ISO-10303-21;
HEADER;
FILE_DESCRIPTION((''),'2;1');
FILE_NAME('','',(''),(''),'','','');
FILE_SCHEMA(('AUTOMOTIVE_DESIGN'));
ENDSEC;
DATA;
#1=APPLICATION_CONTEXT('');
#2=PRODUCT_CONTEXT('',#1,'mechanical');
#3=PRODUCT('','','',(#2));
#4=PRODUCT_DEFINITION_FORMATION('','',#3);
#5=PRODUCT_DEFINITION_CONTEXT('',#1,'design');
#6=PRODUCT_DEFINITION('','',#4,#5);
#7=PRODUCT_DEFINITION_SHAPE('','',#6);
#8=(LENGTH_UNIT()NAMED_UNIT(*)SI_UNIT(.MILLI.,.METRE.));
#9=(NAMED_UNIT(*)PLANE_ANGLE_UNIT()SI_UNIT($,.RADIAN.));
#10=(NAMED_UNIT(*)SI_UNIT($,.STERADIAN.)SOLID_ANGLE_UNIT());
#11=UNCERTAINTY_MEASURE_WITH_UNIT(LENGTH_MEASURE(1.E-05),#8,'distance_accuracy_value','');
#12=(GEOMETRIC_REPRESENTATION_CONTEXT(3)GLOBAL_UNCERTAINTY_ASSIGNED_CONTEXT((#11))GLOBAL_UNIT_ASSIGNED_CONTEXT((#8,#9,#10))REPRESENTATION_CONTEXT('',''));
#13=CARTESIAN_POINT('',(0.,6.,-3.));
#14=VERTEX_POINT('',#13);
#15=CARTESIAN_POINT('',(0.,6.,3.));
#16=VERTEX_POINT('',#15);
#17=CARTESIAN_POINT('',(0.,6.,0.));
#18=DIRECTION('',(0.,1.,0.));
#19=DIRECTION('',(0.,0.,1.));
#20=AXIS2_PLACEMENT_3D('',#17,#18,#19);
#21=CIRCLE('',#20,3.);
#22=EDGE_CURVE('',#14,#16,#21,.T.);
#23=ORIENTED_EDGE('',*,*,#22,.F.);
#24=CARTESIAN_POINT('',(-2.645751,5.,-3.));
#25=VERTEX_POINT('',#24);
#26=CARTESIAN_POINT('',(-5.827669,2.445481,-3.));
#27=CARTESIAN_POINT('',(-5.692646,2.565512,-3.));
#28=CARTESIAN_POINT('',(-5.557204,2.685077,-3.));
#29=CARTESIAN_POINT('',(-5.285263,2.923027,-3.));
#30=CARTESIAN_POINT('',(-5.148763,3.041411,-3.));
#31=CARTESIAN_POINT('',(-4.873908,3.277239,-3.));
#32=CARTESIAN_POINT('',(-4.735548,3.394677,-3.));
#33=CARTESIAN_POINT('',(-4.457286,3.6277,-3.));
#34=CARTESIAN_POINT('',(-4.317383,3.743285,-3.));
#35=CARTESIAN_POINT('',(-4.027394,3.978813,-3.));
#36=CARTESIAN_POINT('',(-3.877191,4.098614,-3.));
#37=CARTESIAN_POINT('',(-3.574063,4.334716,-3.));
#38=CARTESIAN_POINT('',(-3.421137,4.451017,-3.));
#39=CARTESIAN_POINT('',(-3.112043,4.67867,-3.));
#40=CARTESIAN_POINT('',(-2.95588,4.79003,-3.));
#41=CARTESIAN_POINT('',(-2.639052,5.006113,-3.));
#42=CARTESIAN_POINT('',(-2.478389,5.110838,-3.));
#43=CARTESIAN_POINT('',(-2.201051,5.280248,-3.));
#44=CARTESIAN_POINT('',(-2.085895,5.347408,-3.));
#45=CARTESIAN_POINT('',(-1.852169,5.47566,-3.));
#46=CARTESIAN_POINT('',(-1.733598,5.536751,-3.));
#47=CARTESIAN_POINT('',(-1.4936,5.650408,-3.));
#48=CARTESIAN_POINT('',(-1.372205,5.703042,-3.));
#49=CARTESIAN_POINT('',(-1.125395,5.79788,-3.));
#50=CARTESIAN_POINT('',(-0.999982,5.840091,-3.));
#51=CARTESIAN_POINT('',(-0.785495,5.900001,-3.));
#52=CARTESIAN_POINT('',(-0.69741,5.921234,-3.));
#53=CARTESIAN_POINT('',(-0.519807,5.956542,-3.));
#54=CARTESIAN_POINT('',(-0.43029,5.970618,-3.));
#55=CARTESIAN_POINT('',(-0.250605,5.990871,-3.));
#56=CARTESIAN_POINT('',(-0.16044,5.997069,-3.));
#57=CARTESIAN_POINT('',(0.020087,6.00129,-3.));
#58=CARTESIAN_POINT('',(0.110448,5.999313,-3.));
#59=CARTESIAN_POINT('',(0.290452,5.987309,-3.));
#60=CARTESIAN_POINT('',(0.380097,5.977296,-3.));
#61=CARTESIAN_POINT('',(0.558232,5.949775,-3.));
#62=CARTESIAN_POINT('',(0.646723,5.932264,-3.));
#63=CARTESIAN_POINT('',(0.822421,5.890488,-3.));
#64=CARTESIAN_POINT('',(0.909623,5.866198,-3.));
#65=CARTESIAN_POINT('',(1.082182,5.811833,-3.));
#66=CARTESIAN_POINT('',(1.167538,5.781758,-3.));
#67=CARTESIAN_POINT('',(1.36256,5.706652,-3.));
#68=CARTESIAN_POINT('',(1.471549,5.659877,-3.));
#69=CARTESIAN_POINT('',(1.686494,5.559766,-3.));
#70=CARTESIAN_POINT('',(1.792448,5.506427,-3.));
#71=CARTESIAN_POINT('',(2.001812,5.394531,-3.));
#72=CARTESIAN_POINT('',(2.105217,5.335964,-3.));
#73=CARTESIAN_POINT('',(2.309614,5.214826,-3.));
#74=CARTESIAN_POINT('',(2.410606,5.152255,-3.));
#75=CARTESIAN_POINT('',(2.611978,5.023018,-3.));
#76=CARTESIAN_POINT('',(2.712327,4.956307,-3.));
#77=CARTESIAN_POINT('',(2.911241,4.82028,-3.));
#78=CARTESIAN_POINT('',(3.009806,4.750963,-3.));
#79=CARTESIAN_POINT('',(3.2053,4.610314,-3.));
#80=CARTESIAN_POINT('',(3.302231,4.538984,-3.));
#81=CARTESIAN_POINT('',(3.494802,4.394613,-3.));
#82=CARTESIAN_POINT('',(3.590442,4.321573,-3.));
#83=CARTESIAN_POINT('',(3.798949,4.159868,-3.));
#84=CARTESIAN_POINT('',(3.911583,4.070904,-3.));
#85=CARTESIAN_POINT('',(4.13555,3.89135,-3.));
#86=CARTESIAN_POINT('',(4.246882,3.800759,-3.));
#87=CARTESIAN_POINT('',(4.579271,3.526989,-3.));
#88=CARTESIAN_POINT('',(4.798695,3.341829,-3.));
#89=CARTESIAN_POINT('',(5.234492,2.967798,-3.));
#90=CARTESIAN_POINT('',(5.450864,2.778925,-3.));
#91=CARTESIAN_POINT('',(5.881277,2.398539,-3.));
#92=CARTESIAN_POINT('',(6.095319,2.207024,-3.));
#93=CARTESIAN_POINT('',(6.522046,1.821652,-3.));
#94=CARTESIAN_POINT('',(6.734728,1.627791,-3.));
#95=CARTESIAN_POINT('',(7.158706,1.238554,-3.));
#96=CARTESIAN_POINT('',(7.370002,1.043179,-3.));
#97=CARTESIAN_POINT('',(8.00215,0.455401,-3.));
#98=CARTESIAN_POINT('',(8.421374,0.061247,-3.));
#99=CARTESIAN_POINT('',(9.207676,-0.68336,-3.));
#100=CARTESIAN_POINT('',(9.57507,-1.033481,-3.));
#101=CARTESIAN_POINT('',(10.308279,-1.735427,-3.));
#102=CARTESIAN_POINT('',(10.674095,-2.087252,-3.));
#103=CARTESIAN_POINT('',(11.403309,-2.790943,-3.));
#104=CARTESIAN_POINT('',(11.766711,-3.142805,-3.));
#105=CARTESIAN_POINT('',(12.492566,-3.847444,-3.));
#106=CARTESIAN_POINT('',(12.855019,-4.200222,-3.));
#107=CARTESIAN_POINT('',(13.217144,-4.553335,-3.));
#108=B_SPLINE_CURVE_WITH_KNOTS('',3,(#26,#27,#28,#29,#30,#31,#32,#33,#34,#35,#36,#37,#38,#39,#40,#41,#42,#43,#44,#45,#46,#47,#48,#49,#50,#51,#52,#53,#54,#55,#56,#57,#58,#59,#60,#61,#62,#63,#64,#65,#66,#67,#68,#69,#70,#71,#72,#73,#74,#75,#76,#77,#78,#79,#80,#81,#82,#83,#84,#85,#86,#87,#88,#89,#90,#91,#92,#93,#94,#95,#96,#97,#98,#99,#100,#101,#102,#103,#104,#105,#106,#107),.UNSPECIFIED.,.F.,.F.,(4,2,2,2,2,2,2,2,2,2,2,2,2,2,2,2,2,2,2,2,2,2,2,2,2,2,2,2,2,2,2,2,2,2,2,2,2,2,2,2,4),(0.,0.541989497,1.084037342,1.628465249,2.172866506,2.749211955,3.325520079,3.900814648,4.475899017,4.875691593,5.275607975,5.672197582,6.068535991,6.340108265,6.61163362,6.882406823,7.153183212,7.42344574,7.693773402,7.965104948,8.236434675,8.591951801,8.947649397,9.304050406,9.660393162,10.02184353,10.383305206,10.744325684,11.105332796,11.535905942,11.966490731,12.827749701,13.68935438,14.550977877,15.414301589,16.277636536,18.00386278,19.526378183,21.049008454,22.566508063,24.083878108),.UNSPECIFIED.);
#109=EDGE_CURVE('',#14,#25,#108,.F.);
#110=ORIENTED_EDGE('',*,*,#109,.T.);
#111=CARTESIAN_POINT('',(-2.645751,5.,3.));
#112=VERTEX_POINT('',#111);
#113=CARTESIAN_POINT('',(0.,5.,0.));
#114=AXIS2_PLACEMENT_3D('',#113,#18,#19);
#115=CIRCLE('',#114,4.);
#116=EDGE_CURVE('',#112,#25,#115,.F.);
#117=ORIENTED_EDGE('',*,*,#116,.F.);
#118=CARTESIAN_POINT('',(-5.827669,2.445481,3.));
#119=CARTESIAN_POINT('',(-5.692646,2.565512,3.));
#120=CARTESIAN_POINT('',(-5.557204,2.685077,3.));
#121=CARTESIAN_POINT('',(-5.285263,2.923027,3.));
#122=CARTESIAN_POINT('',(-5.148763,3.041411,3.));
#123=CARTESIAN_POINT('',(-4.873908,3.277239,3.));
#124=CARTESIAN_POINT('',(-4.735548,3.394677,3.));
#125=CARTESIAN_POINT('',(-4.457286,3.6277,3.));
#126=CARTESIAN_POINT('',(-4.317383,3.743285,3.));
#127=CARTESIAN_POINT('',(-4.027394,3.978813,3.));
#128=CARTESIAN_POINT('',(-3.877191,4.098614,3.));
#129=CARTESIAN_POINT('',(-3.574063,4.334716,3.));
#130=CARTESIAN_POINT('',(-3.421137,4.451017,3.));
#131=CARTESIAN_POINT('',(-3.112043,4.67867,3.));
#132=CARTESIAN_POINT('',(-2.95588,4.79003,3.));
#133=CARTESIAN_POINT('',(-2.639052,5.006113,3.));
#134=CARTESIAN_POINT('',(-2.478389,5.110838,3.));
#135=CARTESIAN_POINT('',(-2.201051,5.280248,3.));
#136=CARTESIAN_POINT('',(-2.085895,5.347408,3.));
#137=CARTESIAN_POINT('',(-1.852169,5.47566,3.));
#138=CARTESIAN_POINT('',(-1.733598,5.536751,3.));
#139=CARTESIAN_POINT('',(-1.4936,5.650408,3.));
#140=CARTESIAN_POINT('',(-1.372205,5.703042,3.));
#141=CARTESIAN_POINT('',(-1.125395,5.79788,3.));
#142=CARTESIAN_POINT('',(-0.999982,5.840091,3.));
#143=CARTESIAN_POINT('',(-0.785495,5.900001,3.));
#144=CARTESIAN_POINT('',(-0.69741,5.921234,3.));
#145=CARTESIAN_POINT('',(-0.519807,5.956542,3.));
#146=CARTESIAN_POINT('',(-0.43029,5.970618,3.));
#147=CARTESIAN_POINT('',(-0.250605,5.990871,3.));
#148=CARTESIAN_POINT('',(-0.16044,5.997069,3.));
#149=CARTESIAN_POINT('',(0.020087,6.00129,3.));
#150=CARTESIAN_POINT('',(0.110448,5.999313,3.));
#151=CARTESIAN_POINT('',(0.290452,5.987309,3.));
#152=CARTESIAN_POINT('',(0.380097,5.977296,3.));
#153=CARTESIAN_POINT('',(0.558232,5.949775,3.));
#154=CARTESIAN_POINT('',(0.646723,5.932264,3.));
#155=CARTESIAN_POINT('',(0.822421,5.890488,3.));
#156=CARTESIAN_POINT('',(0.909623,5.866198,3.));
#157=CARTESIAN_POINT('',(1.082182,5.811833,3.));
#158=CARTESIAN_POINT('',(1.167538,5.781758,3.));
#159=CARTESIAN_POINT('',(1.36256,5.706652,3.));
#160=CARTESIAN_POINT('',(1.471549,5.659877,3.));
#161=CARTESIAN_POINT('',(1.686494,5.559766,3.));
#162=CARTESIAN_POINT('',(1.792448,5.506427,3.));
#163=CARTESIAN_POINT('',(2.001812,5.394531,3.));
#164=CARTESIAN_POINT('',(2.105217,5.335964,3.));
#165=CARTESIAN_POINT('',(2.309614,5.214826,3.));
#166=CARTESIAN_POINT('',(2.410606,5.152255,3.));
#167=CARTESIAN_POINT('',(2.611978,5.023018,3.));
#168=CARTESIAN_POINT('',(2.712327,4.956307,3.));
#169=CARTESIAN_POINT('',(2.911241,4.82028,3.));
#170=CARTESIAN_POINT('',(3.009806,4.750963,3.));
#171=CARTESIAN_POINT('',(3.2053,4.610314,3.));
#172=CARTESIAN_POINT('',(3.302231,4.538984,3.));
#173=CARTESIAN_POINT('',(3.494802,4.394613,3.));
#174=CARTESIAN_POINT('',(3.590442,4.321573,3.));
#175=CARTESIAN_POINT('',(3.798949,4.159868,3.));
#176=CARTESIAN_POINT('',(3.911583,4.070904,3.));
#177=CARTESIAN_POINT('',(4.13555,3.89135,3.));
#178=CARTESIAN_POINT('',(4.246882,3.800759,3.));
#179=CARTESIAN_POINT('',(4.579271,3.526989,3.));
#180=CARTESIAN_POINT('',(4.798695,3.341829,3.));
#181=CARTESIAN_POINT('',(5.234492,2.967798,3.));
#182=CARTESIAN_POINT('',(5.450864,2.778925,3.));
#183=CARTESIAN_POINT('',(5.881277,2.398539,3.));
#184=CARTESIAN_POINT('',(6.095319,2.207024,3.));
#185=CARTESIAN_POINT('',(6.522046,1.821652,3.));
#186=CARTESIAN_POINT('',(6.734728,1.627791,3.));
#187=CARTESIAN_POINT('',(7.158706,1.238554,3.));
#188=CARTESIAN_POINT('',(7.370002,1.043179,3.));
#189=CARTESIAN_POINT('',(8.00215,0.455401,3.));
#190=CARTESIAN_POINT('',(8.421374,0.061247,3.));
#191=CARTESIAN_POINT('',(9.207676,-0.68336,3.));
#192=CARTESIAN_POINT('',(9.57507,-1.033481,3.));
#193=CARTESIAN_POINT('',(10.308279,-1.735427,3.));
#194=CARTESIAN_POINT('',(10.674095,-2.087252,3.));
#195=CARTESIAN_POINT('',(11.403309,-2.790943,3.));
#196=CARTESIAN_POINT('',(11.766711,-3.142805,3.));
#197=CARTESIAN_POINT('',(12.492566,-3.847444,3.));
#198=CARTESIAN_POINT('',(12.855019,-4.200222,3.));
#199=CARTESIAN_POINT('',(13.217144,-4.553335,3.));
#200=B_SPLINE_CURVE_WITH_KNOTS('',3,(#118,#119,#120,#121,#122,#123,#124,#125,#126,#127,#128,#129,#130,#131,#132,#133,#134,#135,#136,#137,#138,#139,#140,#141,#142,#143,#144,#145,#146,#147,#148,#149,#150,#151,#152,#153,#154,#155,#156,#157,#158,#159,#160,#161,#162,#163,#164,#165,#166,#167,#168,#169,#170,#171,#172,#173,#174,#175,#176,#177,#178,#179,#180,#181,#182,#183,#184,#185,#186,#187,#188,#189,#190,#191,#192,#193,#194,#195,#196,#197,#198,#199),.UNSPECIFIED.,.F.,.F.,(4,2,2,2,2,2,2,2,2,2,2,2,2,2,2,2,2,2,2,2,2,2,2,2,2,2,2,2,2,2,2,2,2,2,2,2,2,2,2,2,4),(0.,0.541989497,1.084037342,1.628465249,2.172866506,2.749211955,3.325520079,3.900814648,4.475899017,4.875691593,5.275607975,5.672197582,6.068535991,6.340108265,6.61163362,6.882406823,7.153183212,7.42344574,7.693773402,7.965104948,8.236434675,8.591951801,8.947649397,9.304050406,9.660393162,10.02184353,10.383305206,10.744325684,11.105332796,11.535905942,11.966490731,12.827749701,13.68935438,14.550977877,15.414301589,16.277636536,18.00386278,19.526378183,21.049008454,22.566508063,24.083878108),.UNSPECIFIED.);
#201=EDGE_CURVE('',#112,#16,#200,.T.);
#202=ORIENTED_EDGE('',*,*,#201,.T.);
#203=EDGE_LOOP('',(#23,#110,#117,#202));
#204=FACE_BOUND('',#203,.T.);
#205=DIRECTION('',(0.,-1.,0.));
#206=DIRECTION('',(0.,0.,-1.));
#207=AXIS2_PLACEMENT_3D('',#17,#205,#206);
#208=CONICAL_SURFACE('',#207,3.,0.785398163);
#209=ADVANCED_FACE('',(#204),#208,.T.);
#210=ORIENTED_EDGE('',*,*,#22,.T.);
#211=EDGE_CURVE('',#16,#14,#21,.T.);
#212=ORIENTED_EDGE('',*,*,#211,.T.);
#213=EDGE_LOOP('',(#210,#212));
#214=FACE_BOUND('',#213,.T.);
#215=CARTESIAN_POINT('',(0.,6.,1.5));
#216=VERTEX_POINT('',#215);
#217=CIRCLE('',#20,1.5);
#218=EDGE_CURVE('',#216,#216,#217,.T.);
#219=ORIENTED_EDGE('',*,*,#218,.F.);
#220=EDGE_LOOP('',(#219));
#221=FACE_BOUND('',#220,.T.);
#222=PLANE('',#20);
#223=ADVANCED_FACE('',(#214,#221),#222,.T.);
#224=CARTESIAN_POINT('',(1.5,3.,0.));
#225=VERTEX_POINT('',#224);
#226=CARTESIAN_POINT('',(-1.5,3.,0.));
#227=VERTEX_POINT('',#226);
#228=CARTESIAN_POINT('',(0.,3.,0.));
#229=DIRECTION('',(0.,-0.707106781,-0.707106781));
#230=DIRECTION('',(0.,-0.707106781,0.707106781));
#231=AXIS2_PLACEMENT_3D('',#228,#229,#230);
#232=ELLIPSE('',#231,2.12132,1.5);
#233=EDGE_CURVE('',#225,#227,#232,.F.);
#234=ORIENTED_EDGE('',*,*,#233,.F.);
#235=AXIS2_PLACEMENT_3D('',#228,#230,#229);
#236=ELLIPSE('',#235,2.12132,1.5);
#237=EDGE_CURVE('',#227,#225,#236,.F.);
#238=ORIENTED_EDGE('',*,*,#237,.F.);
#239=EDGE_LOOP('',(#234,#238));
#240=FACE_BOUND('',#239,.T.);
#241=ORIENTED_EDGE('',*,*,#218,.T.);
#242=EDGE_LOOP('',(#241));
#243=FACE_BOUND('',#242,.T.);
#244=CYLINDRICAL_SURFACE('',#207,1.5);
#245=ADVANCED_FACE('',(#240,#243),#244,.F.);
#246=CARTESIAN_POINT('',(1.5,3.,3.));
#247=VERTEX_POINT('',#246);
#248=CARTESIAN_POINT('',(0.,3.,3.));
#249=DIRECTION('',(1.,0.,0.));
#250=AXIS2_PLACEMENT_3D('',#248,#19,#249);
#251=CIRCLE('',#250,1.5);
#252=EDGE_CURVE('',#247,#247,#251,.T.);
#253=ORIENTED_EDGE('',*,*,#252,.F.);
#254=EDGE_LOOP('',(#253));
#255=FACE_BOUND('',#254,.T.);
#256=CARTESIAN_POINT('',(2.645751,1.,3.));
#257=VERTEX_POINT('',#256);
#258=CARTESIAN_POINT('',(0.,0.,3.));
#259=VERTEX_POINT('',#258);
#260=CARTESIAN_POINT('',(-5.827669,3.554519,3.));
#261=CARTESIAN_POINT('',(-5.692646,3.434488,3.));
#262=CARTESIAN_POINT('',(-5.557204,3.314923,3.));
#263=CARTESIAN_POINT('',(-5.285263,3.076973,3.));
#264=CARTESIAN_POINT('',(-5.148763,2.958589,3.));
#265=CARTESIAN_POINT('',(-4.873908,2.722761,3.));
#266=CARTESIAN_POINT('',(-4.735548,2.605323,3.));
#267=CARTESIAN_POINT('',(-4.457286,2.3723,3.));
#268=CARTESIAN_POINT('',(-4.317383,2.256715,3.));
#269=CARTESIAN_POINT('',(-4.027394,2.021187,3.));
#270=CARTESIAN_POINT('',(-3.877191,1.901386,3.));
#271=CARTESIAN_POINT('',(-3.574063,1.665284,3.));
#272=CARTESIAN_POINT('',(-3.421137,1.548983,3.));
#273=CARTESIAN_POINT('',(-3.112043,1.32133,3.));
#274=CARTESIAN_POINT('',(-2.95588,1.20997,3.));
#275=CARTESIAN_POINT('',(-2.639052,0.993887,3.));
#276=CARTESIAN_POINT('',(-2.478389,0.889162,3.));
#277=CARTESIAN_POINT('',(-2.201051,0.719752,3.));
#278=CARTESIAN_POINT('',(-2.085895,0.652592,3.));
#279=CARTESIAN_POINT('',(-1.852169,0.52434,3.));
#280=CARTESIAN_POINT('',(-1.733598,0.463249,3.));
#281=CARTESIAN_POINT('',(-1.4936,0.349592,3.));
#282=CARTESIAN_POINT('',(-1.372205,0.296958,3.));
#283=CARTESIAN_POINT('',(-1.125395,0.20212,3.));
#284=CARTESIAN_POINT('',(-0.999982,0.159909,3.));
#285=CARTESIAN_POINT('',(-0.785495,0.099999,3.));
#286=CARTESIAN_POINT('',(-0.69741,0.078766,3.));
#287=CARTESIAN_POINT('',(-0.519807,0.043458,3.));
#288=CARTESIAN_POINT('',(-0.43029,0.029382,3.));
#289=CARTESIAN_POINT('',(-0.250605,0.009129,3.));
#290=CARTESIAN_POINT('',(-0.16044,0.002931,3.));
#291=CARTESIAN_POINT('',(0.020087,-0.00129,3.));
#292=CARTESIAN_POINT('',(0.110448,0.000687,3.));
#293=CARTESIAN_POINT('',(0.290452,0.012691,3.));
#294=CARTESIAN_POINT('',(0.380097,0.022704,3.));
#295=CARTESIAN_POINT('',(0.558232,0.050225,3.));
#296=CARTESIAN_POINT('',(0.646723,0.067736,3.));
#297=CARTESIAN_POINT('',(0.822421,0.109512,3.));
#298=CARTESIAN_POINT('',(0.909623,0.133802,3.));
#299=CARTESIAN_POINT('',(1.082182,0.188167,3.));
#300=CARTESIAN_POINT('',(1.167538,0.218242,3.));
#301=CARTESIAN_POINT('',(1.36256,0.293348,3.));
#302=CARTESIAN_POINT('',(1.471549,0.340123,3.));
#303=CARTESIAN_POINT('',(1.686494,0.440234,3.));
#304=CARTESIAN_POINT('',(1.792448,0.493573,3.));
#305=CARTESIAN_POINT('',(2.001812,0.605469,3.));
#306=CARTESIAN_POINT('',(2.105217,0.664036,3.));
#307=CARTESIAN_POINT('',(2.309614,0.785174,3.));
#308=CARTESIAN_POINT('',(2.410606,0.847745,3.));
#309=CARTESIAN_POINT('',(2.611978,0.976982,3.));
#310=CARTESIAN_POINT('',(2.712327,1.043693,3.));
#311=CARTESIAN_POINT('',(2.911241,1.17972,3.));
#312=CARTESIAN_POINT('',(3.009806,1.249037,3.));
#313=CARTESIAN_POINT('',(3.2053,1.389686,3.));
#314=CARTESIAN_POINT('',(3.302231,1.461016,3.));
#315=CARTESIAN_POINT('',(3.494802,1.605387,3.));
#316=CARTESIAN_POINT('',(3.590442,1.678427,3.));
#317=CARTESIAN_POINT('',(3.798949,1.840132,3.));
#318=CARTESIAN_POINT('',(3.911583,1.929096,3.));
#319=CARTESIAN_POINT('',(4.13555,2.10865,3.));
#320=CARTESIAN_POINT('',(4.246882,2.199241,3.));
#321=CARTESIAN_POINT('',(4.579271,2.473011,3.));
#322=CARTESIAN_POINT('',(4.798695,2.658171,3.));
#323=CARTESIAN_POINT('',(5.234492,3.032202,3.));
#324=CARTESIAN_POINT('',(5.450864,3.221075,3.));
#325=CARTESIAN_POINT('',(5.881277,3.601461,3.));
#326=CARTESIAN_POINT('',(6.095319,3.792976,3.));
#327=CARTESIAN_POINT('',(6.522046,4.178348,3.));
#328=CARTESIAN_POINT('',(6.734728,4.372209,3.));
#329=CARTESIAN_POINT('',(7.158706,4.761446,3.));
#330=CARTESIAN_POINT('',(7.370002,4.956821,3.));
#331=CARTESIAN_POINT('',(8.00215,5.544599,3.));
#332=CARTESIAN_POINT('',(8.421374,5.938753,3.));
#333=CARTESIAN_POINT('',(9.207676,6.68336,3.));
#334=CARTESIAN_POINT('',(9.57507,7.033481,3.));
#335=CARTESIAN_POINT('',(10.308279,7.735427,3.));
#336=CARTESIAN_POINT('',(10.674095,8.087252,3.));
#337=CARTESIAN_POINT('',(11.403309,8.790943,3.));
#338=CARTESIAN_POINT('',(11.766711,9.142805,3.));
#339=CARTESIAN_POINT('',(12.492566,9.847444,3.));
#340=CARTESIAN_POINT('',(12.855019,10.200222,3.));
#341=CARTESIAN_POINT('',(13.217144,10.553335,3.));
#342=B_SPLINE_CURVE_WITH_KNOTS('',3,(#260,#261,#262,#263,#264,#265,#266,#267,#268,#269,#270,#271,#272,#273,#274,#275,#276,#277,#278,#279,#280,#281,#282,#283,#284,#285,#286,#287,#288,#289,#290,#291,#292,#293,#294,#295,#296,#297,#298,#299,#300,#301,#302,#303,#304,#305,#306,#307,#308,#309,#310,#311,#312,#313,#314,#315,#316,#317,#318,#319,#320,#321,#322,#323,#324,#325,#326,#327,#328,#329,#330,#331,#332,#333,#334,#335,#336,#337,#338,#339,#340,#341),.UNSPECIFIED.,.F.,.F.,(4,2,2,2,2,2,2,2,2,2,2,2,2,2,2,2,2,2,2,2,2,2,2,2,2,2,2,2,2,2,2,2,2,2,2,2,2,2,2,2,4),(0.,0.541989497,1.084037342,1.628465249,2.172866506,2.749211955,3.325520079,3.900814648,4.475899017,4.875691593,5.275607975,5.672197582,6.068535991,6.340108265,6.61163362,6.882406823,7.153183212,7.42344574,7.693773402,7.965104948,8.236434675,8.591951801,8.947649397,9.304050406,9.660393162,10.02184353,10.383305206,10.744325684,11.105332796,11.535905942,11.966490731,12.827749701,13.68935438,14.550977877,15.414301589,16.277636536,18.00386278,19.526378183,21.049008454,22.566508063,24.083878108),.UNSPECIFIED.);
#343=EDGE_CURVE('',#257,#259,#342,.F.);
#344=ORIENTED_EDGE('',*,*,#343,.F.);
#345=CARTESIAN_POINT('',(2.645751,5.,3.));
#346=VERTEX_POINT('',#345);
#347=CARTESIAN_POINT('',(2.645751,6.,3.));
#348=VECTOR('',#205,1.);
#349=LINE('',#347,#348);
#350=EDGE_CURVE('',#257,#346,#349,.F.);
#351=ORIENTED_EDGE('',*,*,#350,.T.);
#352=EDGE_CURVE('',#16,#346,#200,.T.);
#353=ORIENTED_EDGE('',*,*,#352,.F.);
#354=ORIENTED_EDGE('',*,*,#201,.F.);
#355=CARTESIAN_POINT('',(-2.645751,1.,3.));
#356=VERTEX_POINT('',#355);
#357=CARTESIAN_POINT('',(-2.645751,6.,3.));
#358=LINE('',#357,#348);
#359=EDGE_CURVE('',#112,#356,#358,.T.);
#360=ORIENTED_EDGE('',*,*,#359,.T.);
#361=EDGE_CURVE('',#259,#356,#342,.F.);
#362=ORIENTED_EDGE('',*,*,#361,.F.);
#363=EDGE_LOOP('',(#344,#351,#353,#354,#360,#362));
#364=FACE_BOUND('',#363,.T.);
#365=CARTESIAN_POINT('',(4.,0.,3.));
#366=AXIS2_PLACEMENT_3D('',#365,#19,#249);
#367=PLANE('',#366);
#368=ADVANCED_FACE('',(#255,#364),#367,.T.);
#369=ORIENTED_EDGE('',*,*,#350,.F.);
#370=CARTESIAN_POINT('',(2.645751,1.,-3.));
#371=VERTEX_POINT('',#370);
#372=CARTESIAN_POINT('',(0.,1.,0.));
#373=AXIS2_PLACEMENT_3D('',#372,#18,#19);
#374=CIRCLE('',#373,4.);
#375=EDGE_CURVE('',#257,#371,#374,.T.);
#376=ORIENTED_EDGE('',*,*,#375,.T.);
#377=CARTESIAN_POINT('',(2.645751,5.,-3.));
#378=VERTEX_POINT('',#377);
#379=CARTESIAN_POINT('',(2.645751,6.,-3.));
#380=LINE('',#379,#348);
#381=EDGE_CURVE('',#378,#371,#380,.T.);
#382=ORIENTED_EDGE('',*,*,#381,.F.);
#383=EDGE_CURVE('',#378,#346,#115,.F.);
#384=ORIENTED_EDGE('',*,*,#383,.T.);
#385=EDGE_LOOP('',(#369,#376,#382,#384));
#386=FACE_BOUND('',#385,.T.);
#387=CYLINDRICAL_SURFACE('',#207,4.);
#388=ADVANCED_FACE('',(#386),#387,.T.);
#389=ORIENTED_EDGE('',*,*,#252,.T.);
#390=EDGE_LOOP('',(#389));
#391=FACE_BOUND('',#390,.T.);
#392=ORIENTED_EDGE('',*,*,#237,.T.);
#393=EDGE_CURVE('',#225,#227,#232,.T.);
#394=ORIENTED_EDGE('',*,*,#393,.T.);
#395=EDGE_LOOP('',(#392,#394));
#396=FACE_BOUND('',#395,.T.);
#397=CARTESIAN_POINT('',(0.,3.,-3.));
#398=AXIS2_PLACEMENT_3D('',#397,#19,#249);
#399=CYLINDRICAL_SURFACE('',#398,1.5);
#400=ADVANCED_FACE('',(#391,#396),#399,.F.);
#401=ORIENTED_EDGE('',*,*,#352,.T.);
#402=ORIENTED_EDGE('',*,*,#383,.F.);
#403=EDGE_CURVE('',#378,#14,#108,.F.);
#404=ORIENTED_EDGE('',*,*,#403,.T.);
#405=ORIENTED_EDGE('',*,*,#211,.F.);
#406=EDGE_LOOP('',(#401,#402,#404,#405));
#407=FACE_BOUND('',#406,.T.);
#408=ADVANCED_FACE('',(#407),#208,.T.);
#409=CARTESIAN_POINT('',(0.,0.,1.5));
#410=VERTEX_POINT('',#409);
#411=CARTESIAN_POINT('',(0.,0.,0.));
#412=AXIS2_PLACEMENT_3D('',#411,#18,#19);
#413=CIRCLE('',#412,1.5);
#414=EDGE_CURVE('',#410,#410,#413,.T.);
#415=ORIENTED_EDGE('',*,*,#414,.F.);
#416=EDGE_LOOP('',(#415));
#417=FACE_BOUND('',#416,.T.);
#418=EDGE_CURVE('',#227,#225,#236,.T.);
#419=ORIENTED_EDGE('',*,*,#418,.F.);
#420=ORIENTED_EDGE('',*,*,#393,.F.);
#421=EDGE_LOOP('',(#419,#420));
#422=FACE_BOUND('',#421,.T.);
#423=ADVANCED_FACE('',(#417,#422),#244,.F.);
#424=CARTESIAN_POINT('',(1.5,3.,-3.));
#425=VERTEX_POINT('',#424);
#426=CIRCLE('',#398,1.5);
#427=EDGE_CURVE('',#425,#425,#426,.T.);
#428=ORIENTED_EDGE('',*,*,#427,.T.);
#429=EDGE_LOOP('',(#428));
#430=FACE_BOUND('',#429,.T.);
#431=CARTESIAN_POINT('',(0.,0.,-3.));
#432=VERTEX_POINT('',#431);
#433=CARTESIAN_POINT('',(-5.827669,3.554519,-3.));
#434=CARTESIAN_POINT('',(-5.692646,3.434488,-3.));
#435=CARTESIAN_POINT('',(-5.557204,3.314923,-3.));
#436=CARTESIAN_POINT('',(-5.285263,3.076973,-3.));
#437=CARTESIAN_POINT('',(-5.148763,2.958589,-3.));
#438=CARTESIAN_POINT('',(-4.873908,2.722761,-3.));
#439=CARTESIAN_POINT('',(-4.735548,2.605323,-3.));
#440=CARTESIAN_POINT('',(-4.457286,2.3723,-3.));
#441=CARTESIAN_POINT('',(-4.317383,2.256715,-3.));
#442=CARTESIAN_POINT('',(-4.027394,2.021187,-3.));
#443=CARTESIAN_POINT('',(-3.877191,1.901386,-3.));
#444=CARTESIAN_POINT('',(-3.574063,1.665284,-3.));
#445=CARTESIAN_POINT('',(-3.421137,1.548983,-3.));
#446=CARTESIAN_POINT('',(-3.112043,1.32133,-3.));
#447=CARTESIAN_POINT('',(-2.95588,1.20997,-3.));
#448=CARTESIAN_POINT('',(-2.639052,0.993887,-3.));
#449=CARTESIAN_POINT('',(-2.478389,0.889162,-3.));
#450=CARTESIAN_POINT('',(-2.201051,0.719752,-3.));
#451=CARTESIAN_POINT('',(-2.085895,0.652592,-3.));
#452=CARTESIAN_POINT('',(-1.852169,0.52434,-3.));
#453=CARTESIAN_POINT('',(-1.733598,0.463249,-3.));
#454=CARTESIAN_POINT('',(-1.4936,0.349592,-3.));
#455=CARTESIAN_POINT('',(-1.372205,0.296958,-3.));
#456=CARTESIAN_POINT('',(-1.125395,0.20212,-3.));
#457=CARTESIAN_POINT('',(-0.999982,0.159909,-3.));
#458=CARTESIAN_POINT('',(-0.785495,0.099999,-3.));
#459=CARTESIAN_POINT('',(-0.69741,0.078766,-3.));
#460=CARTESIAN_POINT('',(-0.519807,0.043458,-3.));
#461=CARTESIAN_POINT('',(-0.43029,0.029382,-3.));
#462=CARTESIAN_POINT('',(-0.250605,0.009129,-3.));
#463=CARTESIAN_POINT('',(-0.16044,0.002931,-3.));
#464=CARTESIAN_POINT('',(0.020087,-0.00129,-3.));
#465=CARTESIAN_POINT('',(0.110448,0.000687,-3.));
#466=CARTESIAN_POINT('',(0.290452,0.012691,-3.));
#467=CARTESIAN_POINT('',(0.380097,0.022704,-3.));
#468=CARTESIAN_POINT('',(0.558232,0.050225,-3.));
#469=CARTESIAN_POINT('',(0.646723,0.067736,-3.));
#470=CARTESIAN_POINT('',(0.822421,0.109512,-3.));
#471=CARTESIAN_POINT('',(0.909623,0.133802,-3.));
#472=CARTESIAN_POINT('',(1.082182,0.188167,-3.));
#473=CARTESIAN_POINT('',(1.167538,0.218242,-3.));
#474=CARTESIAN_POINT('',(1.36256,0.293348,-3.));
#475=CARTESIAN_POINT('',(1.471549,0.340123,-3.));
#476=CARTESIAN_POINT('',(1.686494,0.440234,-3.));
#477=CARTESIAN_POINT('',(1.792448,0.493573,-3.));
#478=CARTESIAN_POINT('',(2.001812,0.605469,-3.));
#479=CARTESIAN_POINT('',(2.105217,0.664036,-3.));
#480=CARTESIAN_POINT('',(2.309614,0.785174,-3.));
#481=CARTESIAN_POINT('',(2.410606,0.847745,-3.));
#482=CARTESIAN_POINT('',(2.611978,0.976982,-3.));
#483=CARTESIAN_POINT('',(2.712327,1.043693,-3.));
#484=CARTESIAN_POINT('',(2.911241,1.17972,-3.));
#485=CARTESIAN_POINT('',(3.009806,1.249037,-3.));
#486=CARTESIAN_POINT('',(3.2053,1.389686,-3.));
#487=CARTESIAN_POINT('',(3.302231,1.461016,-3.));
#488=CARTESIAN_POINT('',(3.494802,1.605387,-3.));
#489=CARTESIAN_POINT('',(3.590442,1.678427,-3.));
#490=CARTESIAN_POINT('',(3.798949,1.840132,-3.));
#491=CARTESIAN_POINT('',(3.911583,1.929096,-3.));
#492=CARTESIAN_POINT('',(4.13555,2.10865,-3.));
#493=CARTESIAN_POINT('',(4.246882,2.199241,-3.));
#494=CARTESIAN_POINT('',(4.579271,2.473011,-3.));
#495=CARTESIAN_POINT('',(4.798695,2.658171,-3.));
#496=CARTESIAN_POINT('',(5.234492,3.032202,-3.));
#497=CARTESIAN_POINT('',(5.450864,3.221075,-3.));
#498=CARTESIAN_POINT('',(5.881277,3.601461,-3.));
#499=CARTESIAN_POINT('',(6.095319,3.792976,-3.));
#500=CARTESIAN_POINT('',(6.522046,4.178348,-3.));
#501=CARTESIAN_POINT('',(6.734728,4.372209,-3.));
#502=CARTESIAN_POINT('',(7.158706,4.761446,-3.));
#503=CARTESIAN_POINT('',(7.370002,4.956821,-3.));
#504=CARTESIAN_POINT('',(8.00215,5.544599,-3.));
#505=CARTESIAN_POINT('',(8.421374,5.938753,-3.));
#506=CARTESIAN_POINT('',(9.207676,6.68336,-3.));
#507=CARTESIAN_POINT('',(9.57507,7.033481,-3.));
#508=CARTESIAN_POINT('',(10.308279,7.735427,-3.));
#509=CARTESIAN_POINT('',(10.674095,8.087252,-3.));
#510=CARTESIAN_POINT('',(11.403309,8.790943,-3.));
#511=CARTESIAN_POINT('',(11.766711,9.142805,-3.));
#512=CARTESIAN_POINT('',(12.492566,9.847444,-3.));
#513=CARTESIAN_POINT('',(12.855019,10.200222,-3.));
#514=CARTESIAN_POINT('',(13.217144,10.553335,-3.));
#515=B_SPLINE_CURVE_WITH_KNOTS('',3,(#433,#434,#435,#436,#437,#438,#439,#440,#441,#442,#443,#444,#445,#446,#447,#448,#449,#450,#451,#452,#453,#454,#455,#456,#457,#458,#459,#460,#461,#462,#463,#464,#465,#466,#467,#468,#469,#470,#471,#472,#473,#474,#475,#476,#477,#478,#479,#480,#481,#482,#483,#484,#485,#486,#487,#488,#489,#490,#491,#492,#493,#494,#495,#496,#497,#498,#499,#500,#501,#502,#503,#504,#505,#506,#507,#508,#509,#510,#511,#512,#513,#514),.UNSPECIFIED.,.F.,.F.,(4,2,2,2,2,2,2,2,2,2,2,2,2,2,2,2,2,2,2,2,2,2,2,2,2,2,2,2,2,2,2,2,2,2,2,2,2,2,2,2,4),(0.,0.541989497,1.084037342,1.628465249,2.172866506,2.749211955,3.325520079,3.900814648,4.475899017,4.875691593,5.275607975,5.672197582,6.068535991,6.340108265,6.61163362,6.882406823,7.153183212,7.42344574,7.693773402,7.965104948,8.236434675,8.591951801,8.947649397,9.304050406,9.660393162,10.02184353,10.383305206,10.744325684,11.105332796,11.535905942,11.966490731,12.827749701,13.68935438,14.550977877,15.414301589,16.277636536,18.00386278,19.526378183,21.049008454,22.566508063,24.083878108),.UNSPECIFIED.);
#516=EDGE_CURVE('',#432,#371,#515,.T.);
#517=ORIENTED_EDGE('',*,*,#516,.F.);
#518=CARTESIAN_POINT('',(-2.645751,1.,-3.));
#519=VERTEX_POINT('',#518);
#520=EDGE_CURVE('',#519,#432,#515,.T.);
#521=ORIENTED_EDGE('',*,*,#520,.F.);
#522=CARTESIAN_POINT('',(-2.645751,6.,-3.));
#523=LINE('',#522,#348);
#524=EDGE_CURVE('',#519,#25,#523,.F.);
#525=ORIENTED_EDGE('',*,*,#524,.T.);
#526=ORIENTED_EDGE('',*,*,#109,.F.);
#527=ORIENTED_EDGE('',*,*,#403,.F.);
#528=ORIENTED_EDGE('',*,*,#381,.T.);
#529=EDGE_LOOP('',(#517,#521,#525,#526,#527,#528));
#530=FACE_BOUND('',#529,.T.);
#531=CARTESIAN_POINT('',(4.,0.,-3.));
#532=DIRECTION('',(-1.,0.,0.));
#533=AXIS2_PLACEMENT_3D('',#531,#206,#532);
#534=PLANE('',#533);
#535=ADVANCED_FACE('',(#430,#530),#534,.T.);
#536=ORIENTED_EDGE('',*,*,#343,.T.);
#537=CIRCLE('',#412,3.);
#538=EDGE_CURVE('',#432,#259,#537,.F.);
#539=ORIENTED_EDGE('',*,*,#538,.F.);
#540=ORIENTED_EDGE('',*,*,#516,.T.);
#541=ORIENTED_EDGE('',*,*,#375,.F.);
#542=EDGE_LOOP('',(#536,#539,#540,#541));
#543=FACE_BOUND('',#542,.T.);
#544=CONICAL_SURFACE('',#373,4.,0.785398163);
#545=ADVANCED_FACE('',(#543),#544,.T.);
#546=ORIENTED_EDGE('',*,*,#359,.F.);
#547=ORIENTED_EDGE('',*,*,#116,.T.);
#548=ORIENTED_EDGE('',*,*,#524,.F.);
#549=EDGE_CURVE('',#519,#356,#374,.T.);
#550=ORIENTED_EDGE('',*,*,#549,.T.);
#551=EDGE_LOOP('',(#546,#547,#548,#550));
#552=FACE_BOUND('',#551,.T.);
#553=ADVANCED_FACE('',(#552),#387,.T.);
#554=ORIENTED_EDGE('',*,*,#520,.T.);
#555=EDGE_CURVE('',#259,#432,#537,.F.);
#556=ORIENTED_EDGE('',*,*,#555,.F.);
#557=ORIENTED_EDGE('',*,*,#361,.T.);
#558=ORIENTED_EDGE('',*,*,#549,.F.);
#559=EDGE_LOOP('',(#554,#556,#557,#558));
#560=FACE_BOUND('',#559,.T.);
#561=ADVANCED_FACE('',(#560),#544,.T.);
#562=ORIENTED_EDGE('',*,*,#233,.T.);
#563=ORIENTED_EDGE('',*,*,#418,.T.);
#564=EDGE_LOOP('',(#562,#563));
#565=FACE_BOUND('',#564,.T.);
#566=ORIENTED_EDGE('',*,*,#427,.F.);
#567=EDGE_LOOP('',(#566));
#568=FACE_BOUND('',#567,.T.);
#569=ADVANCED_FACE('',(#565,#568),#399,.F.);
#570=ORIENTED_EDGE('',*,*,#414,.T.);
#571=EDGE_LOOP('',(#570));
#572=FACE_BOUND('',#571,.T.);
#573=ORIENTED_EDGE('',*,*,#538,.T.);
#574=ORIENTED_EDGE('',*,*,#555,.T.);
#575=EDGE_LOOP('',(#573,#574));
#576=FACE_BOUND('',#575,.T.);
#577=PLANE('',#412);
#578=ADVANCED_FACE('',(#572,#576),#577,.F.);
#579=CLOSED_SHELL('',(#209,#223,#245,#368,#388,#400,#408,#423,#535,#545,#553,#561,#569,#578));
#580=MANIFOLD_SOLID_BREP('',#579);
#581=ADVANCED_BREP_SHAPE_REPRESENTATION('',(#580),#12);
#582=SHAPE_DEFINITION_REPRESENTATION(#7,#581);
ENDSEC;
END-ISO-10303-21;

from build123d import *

# Parameters (mm, degrees)
CROQUIS1_R                 = 4
CROQUIS1_R_2               = 1.5
SALIENTE_EXTRUIR3_DEPTH    = 6
CHAFL_N1_SIZE              = 1
CHAFL_N2_SIZE              = 1
CORTAR_EXTRUIR2_DEPTH      = 4
CORTAR_EXTRUIR2_DEPTH_BACK = 4
CROQUIS3_W                 = 2
CROQUIS3_H                 = 6
CROQUIS4_R                 = 1.5
CORTAR_EXTRUIR3_DEPTH      = 6


with BuildPart() as part:
    # Croquis1 → Saliente-Extruir3 (new body)
    with BuildSketch(Plane(origin=(0, 0, 0), x_dir=(1, 0, 0), z_dir=(0, 1, 0))):
        Circle(CROQUIS1_R)
        Circle(CROQUIS1_R_2, mode=Mode.SUBTRACT)
    extrude(amount=SALIENTE_EXTRUIR3_DEPTH)

    # Chaflán1
    chafl_n1_edges = [part.edges().sort_by_distance(p)[0] for p in [
        (-4, 6, 0),
    ]]
    chamfer(chafl_n1_edges, length=CHAFL_N1_SIZE)

    # Chaflán2
    chafl_n2_edges = [part.edges().sort_by_distance(p)[0] for p in [
        (-4, 0, 0),
    ]]
    chamfer(chafl_n2_edges, length=CHAFL_N2_SIZE)

    # Croquis3 → Cortar-Extruir2 (cut, two sides: drawn at the far end of the back side and taken through both)
    with BuildSketch(Plane(origin=(0, 0, 0), x_dir=(0, 0, -1), z_dir=(1, 0, 0)).offset(-CORTAR_EXTRUIR2_DEPTH_BACK)):
        with Locations((-4, 3)):
            Rectangle(CROQUIS3_W, CROQUIS3_H)
        with Locations((4, 3)):
            Rectangle(CROQUIS3_W, CROQUIS3_H)
    extrude(amount=CORTAR_EXTRUIR2_DEPTH + CORTAR_EXTRUIR2_DEPTH_BACK, mode=Mode.SUBTRACT)

    # Croquis4 → Cortar-Extruir3 (cut)
    with BuildSketch(Plane.XY.offset(3)):
        with Locations((0, 3)):
            Circle(CROQUIS4_R)
    extrude(amount=-CORTAR_EXTRUIR3_DEPTH, mode=Mode.SUBTRACT)


solid = part.part
